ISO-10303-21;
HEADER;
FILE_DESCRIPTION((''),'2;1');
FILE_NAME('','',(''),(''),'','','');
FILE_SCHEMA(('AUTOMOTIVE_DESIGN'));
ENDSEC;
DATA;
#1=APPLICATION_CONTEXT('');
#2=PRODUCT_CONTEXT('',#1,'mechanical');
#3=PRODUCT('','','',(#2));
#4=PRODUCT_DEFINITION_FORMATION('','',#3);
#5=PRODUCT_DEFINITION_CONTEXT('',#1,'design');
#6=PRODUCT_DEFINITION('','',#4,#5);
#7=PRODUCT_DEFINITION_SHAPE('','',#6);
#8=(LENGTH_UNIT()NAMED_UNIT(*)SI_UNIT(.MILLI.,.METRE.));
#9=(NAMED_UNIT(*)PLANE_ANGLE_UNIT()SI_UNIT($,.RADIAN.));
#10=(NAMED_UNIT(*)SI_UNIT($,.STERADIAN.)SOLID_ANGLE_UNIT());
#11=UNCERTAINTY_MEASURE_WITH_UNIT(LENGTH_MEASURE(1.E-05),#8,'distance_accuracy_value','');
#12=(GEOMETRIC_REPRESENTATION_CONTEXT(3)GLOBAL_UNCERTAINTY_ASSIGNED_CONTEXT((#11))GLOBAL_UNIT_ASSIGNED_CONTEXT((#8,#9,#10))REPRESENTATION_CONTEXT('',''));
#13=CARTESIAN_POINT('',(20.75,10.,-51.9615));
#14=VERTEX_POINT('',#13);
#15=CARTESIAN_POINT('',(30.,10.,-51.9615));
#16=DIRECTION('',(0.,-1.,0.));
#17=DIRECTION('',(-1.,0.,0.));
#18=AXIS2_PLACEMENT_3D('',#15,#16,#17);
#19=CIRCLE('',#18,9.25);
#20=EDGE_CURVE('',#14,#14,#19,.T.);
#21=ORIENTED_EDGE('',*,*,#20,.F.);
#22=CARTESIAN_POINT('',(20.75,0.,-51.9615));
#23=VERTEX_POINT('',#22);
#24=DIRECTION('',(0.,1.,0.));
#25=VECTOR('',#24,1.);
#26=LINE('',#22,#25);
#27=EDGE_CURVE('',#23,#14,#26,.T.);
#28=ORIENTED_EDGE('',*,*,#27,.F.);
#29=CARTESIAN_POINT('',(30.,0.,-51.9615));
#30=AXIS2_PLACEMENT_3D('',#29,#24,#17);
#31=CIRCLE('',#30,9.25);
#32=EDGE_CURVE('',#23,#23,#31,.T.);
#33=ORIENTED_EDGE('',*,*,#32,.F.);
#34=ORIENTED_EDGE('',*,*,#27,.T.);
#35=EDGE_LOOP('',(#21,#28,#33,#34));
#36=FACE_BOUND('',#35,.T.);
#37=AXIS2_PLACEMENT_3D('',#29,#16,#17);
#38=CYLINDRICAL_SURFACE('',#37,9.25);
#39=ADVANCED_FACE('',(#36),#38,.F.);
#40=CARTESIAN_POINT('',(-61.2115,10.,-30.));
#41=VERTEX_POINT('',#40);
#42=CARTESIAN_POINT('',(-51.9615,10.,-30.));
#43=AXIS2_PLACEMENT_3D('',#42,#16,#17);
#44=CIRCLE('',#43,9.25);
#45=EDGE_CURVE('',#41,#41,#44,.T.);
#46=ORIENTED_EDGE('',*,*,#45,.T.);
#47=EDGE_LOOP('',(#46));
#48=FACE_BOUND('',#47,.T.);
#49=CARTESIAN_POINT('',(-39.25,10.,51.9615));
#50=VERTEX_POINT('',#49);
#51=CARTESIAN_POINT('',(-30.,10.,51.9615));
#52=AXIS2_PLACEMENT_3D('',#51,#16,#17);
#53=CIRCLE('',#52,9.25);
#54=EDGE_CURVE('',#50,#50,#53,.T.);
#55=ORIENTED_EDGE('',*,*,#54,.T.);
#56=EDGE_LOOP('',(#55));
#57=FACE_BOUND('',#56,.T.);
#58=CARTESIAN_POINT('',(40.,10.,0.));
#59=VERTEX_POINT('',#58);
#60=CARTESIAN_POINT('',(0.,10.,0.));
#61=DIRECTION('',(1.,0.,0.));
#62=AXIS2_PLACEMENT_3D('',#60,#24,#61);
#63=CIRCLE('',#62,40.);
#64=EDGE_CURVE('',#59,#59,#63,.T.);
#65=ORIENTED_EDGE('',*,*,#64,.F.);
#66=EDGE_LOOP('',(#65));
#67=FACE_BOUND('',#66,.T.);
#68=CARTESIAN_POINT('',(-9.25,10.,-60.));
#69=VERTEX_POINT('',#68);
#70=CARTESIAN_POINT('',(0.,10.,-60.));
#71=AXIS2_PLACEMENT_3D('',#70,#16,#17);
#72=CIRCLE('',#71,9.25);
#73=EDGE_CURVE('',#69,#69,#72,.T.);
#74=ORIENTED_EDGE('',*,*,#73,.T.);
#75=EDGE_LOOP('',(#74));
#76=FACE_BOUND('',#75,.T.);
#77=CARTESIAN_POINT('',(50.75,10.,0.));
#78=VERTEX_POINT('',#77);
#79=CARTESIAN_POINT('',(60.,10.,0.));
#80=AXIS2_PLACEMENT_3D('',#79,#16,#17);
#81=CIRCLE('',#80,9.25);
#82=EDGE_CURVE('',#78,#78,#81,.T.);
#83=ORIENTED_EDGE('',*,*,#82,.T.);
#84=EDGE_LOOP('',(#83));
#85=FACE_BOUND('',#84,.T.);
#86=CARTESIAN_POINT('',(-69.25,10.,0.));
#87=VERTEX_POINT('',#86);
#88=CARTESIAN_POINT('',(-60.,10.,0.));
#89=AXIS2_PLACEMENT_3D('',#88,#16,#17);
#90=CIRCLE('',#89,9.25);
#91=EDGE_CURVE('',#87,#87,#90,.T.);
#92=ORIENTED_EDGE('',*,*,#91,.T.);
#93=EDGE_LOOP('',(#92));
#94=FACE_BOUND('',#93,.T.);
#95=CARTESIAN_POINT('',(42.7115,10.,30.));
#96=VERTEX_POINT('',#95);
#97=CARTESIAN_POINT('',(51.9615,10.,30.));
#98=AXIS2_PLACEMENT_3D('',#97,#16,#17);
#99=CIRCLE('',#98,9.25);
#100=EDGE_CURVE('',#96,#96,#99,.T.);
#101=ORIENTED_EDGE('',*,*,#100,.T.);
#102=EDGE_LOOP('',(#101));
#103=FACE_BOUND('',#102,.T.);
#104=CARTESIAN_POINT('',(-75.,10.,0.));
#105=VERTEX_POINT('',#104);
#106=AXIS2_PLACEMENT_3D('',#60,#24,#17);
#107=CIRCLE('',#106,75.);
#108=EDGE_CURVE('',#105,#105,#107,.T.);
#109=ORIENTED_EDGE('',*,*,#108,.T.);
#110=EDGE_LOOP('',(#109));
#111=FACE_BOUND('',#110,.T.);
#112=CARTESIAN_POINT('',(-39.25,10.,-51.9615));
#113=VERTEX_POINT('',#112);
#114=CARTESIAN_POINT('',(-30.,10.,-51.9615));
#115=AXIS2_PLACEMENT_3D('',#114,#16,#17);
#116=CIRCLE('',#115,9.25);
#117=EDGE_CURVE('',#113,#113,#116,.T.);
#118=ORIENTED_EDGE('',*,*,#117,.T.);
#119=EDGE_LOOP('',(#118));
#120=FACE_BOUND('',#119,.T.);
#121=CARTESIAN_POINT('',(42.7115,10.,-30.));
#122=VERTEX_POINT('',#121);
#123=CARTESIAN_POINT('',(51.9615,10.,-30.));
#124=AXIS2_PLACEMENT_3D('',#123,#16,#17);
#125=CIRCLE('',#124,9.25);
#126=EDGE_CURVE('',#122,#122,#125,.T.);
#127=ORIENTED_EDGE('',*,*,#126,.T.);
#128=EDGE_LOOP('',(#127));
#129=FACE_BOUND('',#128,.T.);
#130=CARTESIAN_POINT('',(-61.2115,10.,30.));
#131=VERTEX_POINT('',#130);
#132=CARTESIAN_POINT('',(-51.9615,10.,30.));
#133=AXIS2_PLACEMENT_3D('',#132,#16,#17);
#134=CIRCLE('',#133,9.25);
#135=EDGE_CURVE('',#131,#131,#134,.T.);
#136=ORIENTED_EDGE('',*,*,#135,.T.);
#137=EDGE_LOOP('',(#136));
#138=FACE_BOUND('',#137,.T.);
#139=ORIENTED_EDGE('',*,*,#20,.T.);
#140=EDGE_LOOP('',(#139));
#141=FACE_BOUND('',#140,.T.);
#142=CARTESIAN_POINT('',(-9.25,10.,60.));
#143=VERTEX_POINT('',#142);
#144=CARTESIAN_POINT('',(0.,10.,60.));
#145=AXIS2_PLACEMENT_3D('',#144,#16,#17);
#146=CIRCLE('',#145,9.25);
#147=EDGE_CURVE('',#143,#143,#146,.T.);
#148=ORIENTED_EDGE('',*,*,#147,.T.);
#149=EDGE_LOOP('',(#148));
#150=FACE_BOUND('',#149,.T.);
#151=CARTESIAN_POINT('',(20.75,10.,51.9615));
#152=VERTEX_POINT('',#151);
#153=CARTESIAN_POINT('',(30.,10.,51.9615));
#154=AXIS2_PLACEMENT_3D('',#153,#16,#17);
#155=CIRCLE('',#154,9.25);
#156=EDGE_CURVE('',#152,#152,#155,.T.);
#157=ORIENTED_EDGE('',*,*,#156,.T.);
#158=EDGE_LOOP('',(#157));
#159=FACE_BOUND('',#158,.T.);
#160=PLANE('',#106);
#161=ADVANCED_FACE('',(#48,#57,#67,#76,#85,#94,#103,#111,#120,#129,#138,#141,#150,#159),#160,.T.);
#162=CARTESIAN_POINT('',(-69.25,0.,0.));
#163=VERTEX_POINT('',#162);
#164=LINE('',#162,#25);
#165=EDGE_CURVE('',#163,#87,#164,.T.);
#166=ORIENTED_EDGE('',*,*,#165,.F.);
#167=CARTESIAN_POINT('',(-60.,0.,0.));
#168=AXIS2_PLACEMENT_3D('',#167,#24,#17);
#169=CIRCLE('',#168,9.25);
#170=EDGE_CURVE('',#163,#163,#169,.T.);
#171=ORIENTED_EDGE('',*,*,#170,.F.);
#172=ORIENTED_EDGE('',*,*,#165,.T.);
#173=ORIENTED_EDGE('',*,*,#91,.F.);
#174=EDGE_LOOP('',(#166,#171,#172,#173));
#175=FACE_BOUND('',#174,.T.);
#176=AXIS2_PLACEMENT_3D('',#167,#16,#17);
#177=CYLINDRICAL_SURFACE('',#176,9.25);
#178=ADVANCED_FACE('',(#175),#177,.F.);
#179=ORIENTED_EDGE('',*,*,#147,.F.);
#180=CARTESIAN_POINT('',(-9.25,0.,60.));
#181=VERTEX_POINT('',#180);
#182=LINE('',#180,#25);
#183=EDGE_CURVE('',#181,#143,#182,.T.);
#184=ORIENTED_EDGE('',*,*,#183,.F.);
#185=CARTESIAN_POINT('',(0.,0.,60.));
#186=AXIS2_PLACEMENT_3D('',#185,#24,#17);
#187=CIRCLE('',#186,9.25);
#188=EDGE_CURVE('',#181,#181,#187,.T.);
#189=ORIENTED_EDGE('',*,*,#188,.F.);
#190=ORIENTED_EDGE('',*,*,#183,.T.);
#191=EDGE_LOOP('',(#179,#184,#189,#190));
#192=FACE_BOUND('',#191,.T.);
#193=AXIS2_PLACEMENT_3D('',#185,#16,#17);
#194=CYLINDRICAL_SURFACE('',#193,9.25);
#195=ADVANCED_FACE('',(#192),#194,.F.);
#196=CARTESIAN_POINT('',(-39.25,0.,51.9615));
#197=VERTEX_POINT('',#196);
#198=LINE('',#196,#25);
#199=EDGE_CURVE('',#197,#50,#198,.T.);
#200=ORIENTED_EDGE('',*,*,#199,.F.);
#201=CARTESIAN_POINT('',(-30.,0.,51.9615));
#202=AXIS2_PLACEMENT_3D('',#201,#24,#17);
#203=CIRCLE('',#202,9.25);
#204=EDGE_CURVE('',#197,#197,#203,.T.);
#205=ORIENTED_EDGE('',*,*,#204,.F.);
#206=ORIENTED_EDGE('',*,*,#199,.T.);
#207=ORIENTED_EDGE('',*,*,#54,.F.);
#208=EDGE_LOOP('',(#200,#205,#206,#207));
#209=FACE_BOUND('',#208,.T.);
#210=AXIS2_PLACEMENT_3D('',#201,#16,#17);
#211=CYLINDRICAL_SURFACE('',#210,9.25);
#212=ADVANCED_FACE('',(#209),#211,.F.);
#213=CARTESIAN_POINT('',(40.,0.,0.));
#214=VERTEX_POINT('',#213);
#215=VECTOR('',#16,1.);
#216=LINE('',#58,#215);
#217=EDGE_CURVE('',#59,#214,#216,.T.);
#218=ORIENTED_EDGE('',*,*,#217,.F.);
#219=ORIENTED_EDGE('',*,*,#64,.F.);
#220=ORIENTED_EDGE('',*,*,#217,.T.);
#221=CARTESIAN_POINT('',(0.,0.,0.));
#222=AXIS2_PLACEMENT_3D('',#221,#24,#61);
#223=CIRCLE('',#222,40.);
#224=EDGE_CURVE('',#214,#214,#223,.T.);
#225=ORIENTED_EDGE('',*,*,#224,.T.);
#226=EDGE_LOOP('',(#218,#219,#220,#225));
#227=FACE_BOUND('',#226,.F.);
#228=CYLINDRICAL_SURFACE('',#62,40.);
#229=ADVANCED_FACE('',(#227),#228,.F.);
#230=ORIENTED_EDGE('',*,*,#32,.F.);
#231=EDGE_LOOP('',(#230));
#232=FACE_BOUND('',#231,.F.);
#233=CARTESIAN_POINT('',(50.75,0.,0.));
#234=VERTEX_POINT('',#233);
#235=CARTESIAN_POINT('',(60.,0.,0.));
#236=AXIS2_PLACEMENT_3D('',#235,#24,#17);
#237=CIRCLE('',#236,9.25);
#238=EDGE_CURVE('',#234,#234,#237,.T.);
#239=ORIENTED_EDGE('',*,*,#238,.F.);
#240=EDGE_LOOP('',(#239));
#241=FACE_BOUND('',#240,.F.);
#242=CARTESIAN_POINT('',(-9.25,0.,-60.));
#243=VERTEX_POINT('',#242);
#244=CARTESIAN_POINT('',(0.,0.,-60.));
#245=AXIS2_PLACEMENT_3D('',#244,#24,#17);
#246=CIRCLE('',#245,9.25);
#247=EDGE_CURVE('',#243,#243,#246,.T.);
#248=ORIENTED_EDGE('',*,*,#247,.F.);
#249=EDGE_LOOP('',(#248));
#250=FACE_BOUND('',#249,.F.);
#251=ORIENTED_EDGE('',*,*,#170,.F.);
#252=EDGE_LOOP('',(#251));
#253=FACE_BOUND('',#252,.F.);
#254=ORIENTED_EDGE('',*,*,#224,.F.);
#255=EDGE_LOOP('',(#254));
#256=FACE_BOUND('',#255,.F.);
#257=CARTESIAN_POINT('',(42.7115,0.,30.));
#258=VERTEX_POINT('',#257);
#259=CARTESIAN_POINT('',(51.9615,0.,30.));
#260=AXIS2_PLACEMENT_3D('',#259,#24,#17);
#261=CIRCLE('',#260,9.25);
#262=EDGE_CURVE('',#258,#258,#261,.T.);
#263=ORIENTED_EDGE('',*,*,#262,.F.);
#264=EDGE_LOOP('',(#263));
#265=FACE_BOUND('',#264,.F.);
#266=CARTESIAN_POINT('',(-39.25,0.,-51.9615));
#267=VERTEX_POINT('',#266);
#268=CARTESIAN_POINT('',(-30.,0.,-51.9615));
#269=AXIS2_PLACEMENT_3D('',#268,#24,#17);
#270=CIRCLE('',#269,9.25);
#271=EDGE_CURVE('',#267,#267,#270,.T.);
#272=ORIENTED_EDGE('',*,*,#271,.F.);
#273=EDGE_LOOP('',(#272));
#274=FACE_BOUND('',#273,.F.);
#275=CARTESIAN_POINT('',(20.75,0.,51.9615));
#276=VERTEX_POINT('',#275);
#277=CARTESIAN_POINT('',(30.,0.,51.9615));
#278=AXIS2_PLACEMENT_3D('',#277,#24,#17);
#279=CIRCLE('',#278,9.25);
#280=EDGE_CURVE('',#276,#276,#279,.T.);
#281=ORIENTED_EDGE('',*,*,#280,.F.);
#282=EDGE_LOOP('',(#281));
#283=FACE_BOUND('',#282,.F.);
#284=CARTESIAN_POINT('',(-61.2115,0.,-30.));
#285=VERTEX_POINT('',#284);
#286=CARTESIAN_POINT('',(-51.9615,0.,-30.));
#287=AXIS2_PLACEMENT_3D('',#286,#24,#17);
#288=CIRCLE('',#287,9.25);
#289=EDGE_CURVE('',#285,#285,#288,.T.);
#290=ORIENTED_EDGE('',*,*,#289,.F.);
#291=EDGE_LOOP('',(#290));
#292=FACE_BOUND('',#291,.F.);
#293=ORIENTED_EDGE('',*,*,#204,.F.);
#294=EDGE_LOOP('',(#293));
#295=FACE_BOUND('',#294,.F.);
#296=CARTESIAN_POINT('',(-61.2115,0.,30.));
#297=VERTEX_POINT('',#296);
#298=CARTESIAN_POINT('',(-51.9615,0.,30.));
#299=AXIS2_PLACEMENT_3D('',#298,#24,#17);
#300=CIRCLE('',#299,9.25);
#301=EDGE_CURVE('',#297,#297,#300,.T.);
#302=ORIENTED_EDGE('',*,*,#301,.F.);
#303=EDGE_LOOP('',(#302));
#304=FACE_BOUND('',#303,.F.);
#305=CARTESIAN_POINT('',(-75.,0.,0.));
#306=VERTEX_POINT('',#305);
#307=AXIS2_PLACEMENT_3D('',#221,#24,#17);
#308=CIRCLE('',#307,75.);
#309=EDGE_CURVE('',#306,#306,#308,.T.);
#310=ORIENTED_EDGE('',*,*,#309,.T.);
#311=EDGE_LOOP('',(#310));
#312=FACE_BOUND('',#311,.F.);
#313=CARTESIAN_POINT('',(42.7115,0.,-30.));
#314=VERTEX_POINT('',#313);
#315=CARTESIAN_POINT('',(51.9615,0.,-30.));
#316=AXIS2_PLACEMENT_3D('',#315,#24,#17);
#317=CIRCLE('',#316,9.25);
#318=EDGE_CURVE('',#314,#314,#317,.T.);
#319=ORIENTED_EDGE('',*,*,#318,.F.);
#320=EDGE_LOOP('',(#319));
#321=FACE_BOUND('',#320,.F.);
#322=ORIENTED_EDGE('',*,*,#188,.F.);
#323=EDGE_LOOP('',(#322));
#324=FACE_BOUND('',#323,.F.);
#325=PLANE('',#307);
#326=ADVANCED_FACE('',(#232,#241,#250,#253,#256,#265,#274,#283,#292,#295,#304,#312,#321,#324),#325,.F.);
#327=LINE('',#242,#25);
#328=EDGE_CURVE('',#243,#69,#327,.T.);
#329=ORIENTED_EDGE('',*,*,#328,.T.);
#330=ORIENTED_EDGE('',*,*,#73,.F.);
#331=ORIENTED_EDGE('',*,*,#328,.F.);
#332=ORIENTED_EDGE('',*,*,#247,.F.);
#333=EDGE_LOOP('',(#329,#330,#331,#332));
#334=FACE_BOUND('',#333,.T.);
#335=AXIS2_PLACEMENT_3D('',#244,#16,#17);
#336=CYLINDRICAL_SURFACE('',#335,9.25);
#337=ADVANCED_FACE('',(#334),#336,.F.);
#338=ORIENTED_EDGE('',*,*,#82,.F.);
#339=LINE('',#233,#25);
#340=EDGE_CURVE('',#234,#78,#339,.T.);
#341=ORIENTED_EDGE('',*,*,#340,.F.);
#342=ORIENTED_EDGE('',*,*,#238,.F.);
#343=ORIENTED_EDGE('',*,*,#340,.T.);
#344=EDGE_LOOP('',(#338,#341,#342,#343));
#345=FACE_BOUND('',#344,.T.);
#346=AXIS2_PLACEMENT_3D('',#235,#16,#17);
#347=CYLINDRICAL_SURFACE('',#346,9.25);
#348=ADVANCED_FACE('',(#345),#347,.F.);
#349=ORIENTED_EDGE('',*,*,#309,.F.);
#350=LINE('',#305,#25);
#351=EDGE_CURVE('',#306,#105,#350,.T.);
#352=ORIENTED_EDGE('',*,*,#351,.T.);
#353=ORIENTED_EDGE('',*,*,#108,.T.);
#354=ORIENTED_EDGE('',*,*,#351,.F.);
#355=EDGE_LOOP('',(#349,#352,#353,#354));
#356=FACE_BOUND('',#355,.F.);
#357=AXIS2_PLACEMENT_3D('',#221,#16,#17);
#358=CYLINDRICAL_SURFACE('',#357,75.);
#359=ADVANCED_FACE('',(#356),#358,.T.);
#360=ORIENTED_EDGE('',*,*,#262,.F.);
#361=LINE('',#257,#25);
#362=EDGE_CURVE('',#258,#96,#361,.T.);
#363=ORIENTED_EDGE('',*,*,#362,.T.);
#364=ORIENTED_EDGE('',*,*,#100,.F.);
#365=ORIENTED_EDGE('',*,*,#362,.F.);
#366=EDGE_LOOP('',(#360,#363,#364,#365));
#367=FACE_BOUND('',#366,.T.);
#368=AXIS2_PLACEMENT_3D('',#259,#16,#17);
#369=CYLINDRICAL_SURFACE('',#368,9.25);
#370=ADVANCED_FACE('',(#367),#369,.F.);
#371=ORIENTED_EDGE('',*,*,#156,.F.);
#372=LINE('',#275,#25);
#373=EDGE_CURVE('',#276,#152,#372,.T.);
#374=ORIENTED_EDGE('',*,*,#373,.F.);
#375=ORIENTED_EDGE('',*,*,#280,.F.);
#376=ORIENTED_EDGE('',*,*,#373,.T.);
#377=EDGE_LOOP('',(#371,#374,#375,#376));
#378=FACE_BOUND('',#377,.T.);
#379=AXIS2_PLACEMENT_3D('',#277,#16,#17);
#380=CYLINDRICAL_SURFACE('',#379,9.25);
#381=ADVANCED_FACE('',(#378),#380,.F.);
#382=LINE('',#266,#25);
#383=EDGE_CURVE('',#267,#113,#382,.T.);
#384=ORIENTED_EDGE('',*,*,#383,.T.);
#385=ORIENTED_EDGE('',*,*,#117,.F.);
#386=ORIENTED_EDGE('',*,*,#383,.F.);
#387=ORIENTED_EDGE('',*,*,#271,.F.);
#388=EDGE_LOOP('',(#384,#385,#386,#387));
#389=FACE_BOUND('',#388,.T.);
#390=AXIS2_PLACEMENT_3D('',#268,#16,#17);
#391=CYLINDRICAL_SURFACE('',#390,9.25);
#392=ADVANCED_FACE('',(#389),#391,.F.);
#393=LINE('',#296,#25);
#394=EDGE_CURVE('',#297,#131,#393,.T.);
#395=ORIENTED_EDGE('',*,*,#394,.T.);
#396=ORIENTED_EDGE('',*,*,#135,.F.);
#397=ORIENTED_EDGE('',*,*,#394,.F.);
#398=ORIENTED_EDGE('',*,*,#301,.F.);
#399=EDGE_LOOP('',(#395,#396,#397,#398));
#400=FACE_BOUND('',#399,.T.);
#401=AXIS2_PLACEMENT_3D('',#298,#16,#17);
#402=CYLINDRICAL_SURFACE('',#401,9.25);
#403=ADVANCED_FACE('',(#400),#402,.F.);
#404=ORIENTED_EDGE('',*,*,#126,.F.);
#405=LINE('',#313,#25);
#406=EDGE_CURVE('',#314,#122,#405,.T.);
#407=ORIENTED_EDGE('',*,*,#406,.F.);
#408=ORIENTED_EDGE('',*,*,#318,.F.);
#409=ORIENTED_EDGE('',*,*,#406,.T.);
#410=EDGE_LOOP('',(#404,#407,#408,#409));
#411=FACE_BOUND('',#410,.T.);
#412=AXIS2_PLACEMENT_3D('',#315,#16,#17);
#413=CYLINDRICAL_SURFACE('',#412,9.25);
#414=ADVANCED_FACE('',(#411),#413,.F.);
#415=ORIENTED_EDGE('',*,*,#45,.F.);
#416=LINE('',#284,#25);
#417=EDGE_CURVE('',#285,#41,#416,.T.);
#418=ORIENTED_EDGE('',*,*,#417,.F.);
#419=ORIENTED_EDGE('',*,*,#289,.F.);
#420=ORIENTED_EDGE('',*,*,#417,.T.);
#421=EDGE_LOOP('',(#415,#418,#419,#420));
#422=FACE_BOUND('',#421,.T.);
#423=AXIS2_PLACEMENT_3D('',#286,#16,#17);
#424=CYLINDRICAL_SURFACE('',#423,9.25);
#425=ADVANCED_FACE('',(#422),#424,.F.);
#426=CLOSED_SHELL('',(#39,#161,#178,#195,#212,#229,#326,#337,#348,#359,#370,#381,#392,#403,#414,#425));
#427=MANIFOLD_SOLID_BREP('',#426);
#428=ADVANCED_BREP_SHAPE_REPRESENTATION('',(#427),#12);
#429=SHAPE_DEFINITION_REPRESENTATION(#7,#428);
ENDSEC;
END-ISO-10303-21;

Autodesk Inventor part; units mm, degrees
ref_plane "XZ Plane" through (0, 0, 0) normal (0, 1, 0) x (-1, 0, 0)
sketch "Sketch1" plane through (0, 0, 0) normal (0, 1, 0) x (-1, 0, 0)
  circle A0 centre (0, 0) radius 75
  circle A1 centre (0, 0) radius 60
  circle A2 centre (0, 60) radius 9.25
  circle A3 centre (-30, 51.9615) radius 9.25
  circle A4 centre (-51.9615, 30) radius 9.25
  circle A5 centre (-60, 0) radius 9.25
  circle A6 centre (-51.9615, -30) radius 9.25
  circle A7 centre (-30, -51.9615) radius 9.25
  circle A8 centre (0, -60) radius 9.25
  circle A9 centre (30, -51.9615) radius 9.25
  circle A10 centre (51.9615, -30) radius 9.25
  circle A11 centre (60, 0) radius 9.25
  circle A12 centre (51.9615, 30) radius 9.25
  circle A13 centre (30, 51.9615) radius 9.25
  dimension "d1" = 120
  dimension "d0" = 150
  dimension "d2" = 18.5
  dimension "d5" = 360
extrude "Extrusion1" add sketch "Sketch1" along normal blind 10 contours A0 | A11 A1 A10 A9 A8 A7 A6 A5 A4 A3 A2 A13 A12
sketch "Sketch2" plane through (0, 0, 0) normal (0, -1, 0) x (1, 0, 0)
  circle A0 centre (0, 0) radius 45
  dimension "d9" = 90
extrude "Extrusion2" add sketch "Sketch2" along normal blind 130
sketch "Sketch3" plane through (0, -130, 0) normal (0, -1, 0) x (1, 0, 0)
  circle A0 centre (0, 0) radius 5
  line L0 (-11.0031, 74.0969) -> (11.0031, 74.0969)
  line L1 (11.0031, 74.0969) -> (11.0031, 56.269)
  line L2 (11.0031, 56.269) -> (-11.0031, 56.269)
  line L3 (-11.0031, 56.269) -> (-11.0031, 74.0969)
  line L4 (11.0031, 74.0969) -> (0, 65.183) construction
  line L5 (-27.5195, 69.6713) -> (-18.6056, 54.232)
  line L6 (-18.6056, 54.232) -> (-37.6635, 43.2289)
  line L7 (-37.6635, 43.2289) -> (-46.5774, 58.6682)
  line L8 (-46.5774, 58.6682) -> (-27.5195, 69.6713)
  line L9 (-58.6682, 46.5774) -> (-43.2289, 37.6635)
  line L10 (-43.2289, 37.6635) -> (-54.232, 18.6056)
  line L11 (-54.232, 18.6056) -> (-69.6713, 27.5195)
  line L12 (-69.6713, 27.5195) -> (-58.6682, 46.5774)
  line L13 (-74.0969, 11.0031) -> (-56.269, 11.0031)
  line L14 (-56.269, 11.0031) -> (-56.269, -11.0031)
  line L15 (-56.269, -11.0031) -> (-74.0969, -11.0031)
  line L16 (-74.0969, -11.0031) -> (-74.0969, 11.0031)
  line L17 (-69.6713, -27.5195) -> (-54.232, -18.6056)
  line L18 (-54.232, -18.6056) -> (-43.2289, -37.6635)
  line L19 (-43.2289, -37.6635) -> (-58.6682, -46.5774)
  line L20 (-58.6682, -46.5774) -> (-69.6713, -27.5195)
  line L21 (-46.5774, -58.6682) -> (-37.6635, -43.2289)
  line L22 (-37.6635, -43.2289) -> (-18.6056, -54.232)
  line L23 (-18.6056, -54.232) -> (-27.5195, -69.6713)
  line L24 (-27.5195, -69.6713) -> (-46.5774, -58.6682)
  line L25 (-11.0031, -74.0969) -> (-11.0031, -56.269)
  line L26 (-11.0031, -56.269) -> (11.0031, -56.269)
  line L27 (11.0031, -56.269) -> (11.0031, -74.0969)
  line L28 (11.0031, -74.0969) -> (-11.0031, -74.0969)
  line L29 (27.5195, -69.6713) -> (18.6056, -54.232)
  line L30 (18.6056, -54.232) -> (37.6635, -43.2289)
  line L31 (37.6635, -43.2289) -> (46.5774, -58.6682)
  line L32 (46.5774, -58.6682) -> (27.5195, -69.6713)
  line L33 (58.6682, -46.5774) -> (43.2289, -37.6635)
  line L34 (43.2289, -37.6635) -> (54.232, -18.6056)
  line L35 (54.232, -18.6056) -> (69.6713, -27.5195)
  line L36 (69.6713, -27.5195) -> (58.6682, -46.5774)
  line L37 (74.0969, -11.0031) -> (56.269, -11.0031)
  line L38 (56.269, -11.0031) -> (56.269, 11.0031)
  line L39 (56.269, 11.0031) -> (74.0969, 11.0031)
  line L40 (74.0969, 11.0031) -> (74.0969, -11.0031)
  line L41 (69.6713, 27.5195) -> (54.232, 18.6056)
  line L42 (54.232, 18.6056) -> (43.2289, 37.6635)
  line L43 (43.2289, 37.6635) -> (58.6682, 46.5774)
  line L44 (58.6682, 46.5774) -> (69.6713, 27.5195)
  line L45 (46.5774, 58.6682) -> (37.6635, 43.2289)
  line L46 (37.6635, 43.2289) -> (18.6056, 54.232)
  line L47 (18.6056, 54.232) -> (27.5195, 69.6713)
  line L48 (27.5195, 69.6713) -> (46.5774, 58.6682)
  arc A1 (-11.0031, 60.9667) -> (-20.9544, 58.3003) centre (0, 0) ccw
  arc A2 (20.9544, 58.3003) -> (11.0031, 60.9667) centre (0, 0) ccw
  arc A3 (47.2972, 40.0123) -> (40.0123, 47.2972) centre (0, 0) ccw
  arc A4 (-40.0123, 47.2972) -> (-47.2972, 40.0123) centre (0, 0) ccw
  arc A5 (-58.3003, 20.9544) -> (-60.9667, 11.0031) centre (0, 0) ccw
  arc A6 (-60.9667, -11.0031) -> (-58.3003, -20.9544) centre (0, 0) ccw
  arc A7 (-47.2972, -40.0123) -> (-40.0123, -47.2972) centre (0, 0) ccw
  arc A8 (-20.9544, -58.3003) -> (-11.0031, -60.9667) centre (0, 0) ccw
  arc A9 (11.0031, -60.9667) -> (20.9544, -58.3003) centre (0, 0) ccw
  arc A10 (40.0123, -47.2972) -> (47.2972, -40.0123) centre (0, 0) ccw
  arc A11 (58.3003, -20.9544) -> (60.9667, -11.0031) centre (0, 0) ccw
  arc A12 (60.9667, 11.0031) -> (58.3003, 20.9544) centre (0, 0) ccw
  dimension "d68" = 360
extrude "Extrusion9" add sketch "Sketch3" along normal blind 10
sketch "Sketch7" plane through (0, -130, 0) normal (0, 1, 0) x (1, 0, 0)
  circle A0 centre (0, 0) radius 5 projected
  circle A1 centre (0, 0) radius 60
  circle A2 centre (-60, 0) radius 9.25
  circle A3 centre (-51.9615, -30) radius 9.25
  circle A4 centre (-30, -51.9615) radius 9.25
  circle A5 centre (0, -60) radius 9.25
  circle A6 centre (30, -51.9615) radius 9.25
  circle A7 centre (51.9615, -30) radius 9.25
  circle A8 centre (60, 0) radius 9.25
  circle A9 centre (51.9615, 30) radius 9.25
  circle A10 centre (30, 51.9615) radius 9.25
  circle A11 centre (0, 60) radius 9.25
  circle A12 centre (-30, 51.9615) radius 9.25
  circle A13 centre (-51.9615, 30) radius 9.25
  dimension "d71" = 120
  dimension "d72" = 18.5
  dimension "d75" = 360
extrude "Extrusion10" cut sketch "Sketch7" against normal blind 10 contours A1 A8 | A1 A8 | A9 A1 | A1 A9 | A7 A1 | A1 A7 | A10 A1 | A1 A10 | A6 A1 | A1 A6 | A11 A1 | A1 A11 | A5 A1 | A1 A5 | A12 A1 | A1 A12 | A4 A1 | A1 A4 | A13 A1 | A1 A13 | A3 A1 | A1 A3 | A2 A1 | A1 A2
sketch "Sketch8" plane through (0, 10, 0) normal (0, 1, 0) x (1, 0, 0)
  circle A0 centre (0, 0) radius 5 projected
  circle A1 centre (0, 0) radius 40
  dimension "d92" = 80
extrude "Extrusion11" cut sketch "Sketch8" against normal blind 140 contours A0 | A1
sketch "Sketch9" plane through (0, -140, 0) normal (0, -1, 0) x (1, 0, 0)
  circle A0 centre (0, 0) radius 100
  line L0 (0, 0) -> (18.5658, -69.2885)
  line L1 (0, 0) -> (0, -103.5276)
  arc A1 (24.6448, -72.6673) -> (14.9907, -75.2542) centre (0, 0) ccw
  circle A2 centre (25.8819, -96.5926) radius 5
  arc A3 (24.729, -72.9816) -> (15.0747, -75.5678) centre (19.8599, -74.1181) ccw
  line L2 (30.6777, -95.1782) -> (24.6448, -72.6673)
  line L3 (21.0523, -97.8867) -> (14.9907, -75.2542)
  circle A4 centre (0, -103.5276) radius 11.6229
  line L4 (21.0523, -97.8867) -> (25.8819, -96.5926)
  arc A5 (-25.8819, -96.5926) -> (26.7197, -101.5219) centre (0, -103.5276) ccw
  circle A6 centre (0, -103.5276) radius 40
  arc A7 (57.9067, -50.8394) -> (50.8389, -57.9063) centre (54.2582, -54.2582) ccw
  line L5 (67.1751, -74.2462) -> (50.6094, -57.6767)
  line L6 (74.1567, -67.0879) -> (57.6767, -50.6094)
  circle A8 centre (70.7107, -70.7107) radius 5
  circle A9 centre (51.7638, -89.6575) radius 11.6229
  arc A10 (75.5684, -15.0748) -> (72.9809, -24.7289) centre (74.1181, -19.8599) ccw
  line L7 (95.2985, -30.7115) -> (72.6673, -24.6448)
  line L8 (97.7655, -21.0214) -> (75.2542, -14.9907)
  circle A11 centre (96.5926, -25.8819) radius 5
  circle A12 centre (89.6575, -51.7638) radius 11.6229
  arc A13 (72.9816, 24.729) -> (75.5678, 15.0747) centre (74.1181, 19.8599) ccw
  line L9 (97.8867, 21.0523) -> (75.2542, 14.9907)
  line L10 (95.1782, 30.6777) -> (72.6673, 24.6448)
  circle A14 centre (96.5926, 25.8819) radius 5
  circle A15 centre (103.5276, 0) radius 11.6229
  arc A16 (50.8394, 57.9067) -> (57.9063, 50.8389) centre (54.2582, 54.2582) ccw
  line L11 (74.2462, 67.1751) -> (57.6767, 50.6094)
  line L12 (67.0879, 74.1567) -> (50.6094, 57.6767)
  circle A17 centre (70.7107, 70.7107) radius 5
  circle A18 centre (89.6575, 51.7638) radius 11.6229
  arc A19 (15.0748, 75.5684) -> (24.7289, 72.9809) centre (19.8599, 74.1181) ccw
  line L13 (30.7115, 95.2985) -> (24.6448, 72.6673)
  line L14 (21.0214, 97.7655) -> (14.9907, 75.2542)
  circle A20 centre (25.8819, 96.5926) radius 5
  circle A21 centre (51.7638, 89.6575) radius 11.6229
  arc A22 (-24.729, 72.9816) -> (-15.0747, 75.5678) centre (-19.8599, 74.1181) ccw
  line L15 (-21.0523, 97.8867) -> (-14.9907, 75.2542)
  line L16 (-30.6777, 95.1782) -> (-24.6448, 72.6673)
  circle A23 centre (-25.8819, 96.5926) radius 5
  circle A24 centre (0, 103.5276) radius 11.6229
  arc A25 (-57.9067, 50.8394) -> (-50.8389, 57.9063) centre (-54.2582, 54.2582) ccw
  line L17 (-67.1751, 74.2462) -> (-50.6094, 57.6767)
  line L18 (-74.1567, 67.0879) -> (-57.6767, 50.6094)
  circle A26 centre (-70.7107, 70.7107) radius 5
  circle A27 centre (-51.7638, 89.6575) radius 11.6229
  arc A28 (-75.5684, 15.0748) -> (-72.9809, 24.7289) centre (-74.1181, 19.8599) ccw
  line L19 (-95.2985, 30.7115) -> (-72.6673, 24.6448)
  line L20 (-97.7655, 21.0214) -> (-75.2542, 14.9907)
  circle A29 centre (-96.5926, 25.8819) radius 5
  circle A30 centre (-89.6575, 51.7638) radius 11.6229
  arc A31 (-72.9816, -24.729) -> (-75.5678, -15.0747) centre (-74.1181, -19.8599) ccw
  line L21 (-97.8867, -21.0523) -> (-75.2542, -14.9907)
  line L22 (-95.1782, -30.6777) -> (-72.6673, -24.6448)
  circle A32 centre (-96.5926, -25.8819) radius 5
  circle A33 centre (-103.5276, 0) radius 11.6229
  arc A34 (-50.8394, -57.9067) -> (-57.9063, -50.8389) centre (-54.2582, -54.2582) ccw
  line L23 (-74.2462, -67.1751) -> (-57.6767, -50.6094)
  line L24 (-67.0879, -74.1567) -> (-50.6094, -57.6767)
  circle A35 centre (-70.7107, -70.7107) radius 5
  circle A36 centre (-89.6575, -51.7638) radius 11.6229
  arc A37 (-15.0748, -75.5684) -> (-24.7289, -72.9809) centre (-19.8599, -74.1181) ccw
  line L25 (-30.7115, -95.2985) -> (-24.6448, -72.6673)
  line L26 (-21.0214, -97.7655) -> (-14.9907, -75.2542)
  circle A38 centre (-25.8819, -96.5926) radius 5
  circle A39 centre (-51.7638, -89.6575) radius 11.6229
  circle A40 centre (0, 0) radius 3
  circle A41 centre (0, -103.5276) radius 2.5
  point P0 (50.7227, -50.7227)
  point P1 (73.9009, -74.5607)
  point P2 (69.2885, -18.5658)
  point P3 (101.2804, -27.621)
  point P4 (69.2885, 18.5658)
  point P5 (101.5219, 26.7197)
  point P6 (50.7227, 50.7227)
  point P7 (74.5607, 73.9009)
  point P8 (18.5658, 69.2885)
  point P9 (27.621, 101.2804)
  point P10 (-18.5658, 69.2885)
  point P11 (-26.7197, 101.5219)
  point P12 (-50.7227, 50.7227)
  point P13 (-73.9009, 74.5607)
  point P14 (-69.2885, 18.5658)
  point P15 (-101.2804, 27.621)
  point P16 (-69.2885, -18.5658)
  point P17 (-101.5219, -26.7197)
  point P18 (-50.7227, -50.7227)
  point P19 (-74.5607, -73.9009)
  point P20 (-18.5658, -69.2885)
  point P21 (-27.621, -101.2804)
  point P22 (40.2917, -91.5236)
  point P23 (59.1159, -80.6555)
  point P24 (67.0867, -74.1578)
  point P25 (80.6555, -59.1159)
  point P26 (91.5236, -40.2917)
  point P27 (95.1777, -30.6791)
  point P28 (99.4077, -10.8682)
  point P29 (99.4077, 10.8682)
  point P30 (97.7659, 21.0199)
  point P31 (91.5236, 40.2917)
  point P32 (80.6555, 59.1159)
  point P33 (74.1578, 67.0867)
  point P34 (59.1159, 80.6555)
  point P35 (40.2917, 91.5236)
  point P36 (30.6791, 95.1777)
  point P37 (10.8682, 99.4077)
  point P38 (-10.8682, 99.4077)
  point P39 (-21.0199, 97.7659)
  point P40 (-40.2917, 91.5236)
  point P41 (-59.1159, 80.6555)
  point P42 (-67.0867, 74.1578)
  point P43 (-80.6555, 59.1159)
  point P44 (-91.5236, 40.2917)
  point P45 (-95.1777, 30.6791)
  point P46 (-99.4077, 10.8682)
  point P47 (-99.4077, -10.8682)
  point P48 (-97.7659, -21.0199)
  point P49 (-91.5236, -40.2917)
  point P50 (-80.6555, -59.1159)
  point P51 (-74.1578, -67.0867)
  point P52 (-59.1159, -80.6555)
  point P53 (-40.2917, -91.5236)
  point P54 (-30.6791, -95.1777)
  point P55 (-10.8682, -99.4077)
  point P56 (10.8682, -99.4077)
  point P57 (21.0199, -97.7659)
  point P58 (20.4557, -69.1537)
  point P59 (24.2422, -71.7107)
  point P60 (40.2917, -91.5236)
  point P61 (59.1159, -80.6555)
  point P62 (67.0867, -74.1578)
  point P63 (80.6555, -59.1159)
  point P64 (91.5236, -40.2917)
  point P65 (95.1777, -30.6791)
  point P66 (99.4077, -10.8682)
  point P67 (99.4077, 10.8682)
  point P68 (97.7659, 21.0199)
  point P69 (91.5236, 40.2917)
  point P70 (80.6555, 59.1159)
  point P71 (74.1578, 67.0867)
  point P72 (59.1159, 80.6555)
  point P73 (40.2917, 91.5236)
  point P74 (30.6791, 95.1777)
  point P75 (10.8682, 99.4077)
  point P76 (-10.8682, 99.4077)
  point P77 (-21.0199, 97.7659)
  point P78 (-40.2917, 91.5236)
  point P79 (-59.1159, 80.6555)
  point P80 (-67.0867, 74.1578)
  point P81 (-80.6555, 59.1159)
  point P82 (-91.5236, 40.2917)
  point P83 (-95.1782, 30.6777)
  point P84 (-99.4077, 10.8682)
  point P85 (-99.4077, -10.8682)
  point P86 (-97.7659, -21.0199)
  point P87 (-91.5236, -40.2917)
  point P88 (-80.6555, -59.1159)
  point P89 (-74.1578, -67.0867)
  point P90 (-59.1159, -80.6555)
  point P91 (-40.2917, -91.5236)
  point P92 (-30.6791, -95.1777)
  point P93 (-24.2422, -71.7107)
  point P94 (-20.4557, -69.1537)
  point P95 (-10.8682, -99.4077)
  point P96 (10.8682, -99.4077)
  point P97 (21.0199, -97.7659)
  dimension "d97" = 200
  dimension "d98" = 15
  dimension "d99" = 10
  dimension "d100" = 10
  dimension "d101" = 80
  dimension "d102" = 360
  dimension "d103" = 6
  dimension "d104" = 5
extrude "Extrusion12" add sketch "Sketch9" along normal blind 10 contours L26 A37 A1 L1 A4 A0 | A0 A6 A1 A37 L25 | A0 A39 L24 A34 A1 A6 | L1 A1 A3 L3 A0 A4 | A37 A6 L1 A1 | A6 A37 A1 | A1 A34 A31 A28 A25 A22 A19 A16 A13 A10 A7 A6 A3 L0 A40 L1 A37 | L1 A6 L0 A3 A1 | A6 A37 | A6 A1 A7 L5 A0 A9 | A0 L2 A3 A1 A6 | L1 A40 L0 A6 | L3 A3 | A34 L23 A0 A36 L22 A31 A1 | A1 A3 A6 | A40 L0 L1 | L1 L0 A40 | A6 A3 L0 | A6 A3 | A31 L21 A0 A33 L20 A28 A1 | A1 A10 L7 A0 A12 L6 A7 | A28 L20 A29 L19 A1 | A1 A28 | A28 L19 A0 A30 L18 A25 A1 | A1 A13 L9 A0 A15 L8 A10 | A25 L17 A0 A27 L16 A22 A1 | A1 A16 L11 A0 A18 L10 A13 | A22 L15 A0 A24 L14 A19 A1 | A1 A19 L13 A0 A21 L12 A16 picked at (-24.7526, -72.3861)
sketch "Sketch10" plane through (0, -140, 0) normal (0, 1, 0) x (1, 0, 0)
  arc A0 (20.4557, 69.1537) -> (24.2422, 71.7107) centre (0, 103.5276) ccw projected
  arc A1 (14.9907, 75.2542) -> (20.4557, 69.1537) centre (19.8599, 74.1181) ccw projected
  line L0 (21.0199, 97.7659) -> (14.9907, 75.2542) projected
  arc A2 (21.0199, 97.7659) -> (10.8682, 99.4077) centre (0, 0) ccw projected
  arc A3 (-10.8682, 99.4077) -> (10.8682, 99.4077) centre (0, 103.5276) ccw projected
  arc A4 (-10.8682, 99.4077) -> (-21.0214, 97.7655) centre (0, 0) ccw projected
  line L1 (-14.9907, 75.2542) -> (-21.0214, 97.7655) projected
  arc A5 (-20.4557, 69.1537) -> (-14.9907, 75.2542) centre (-19.8599, 74.1181) ccw projected
  arc A6 (-24.2422, 71.7107) -> (-20.4557, 69.1537) centre (0, 103.5276) ccw projected
  arc A7 (-24.6448, 72.6673) -> (-24.2422, 71.7107) centre (-19.8599, 74.1181) ccw projected
  line L2 (-30.6791, 95.1777) -> (-24.6448, 72.6673) projected
  arc A8 (-30.6791, 95.1777) -> (-40.2917, 91.5236) centre (0, 0) ccw projected
  arc A9 (-59.1159, 80.6555) -> (-40.2917, 91.5236) centre (-51.7638, 89.6575) ccw projected
  arc A10 (-59.1159, 80.6555) -> (-67.0879, 74.1567) centre (0, 0) ccw projected
  line L3 (-50.6094, 57.6767) -> (-67.0879, 74.1567) projected
  arc A11 (-57.6767, 50.6094) -> (-50.6094, 57.6767) centre (-54.2582, 54.2582) ccw projected
  line L4 (-74.1578, 67.0867) -> (-57.6767, 50.6094) projected
  arc A12 (-74.1578, 67.0867) -> (-80.6555, 59.1159) centre (0, 0) ccw projected
  arc A13 (-91.5236, 40.2917) -> (-80.6555, 59.1159) centre (-89.6575, 51.7638) ccw projected
  arc A14 (-91.5236, 40.2917) -> (-95.1782, 30.6777) centre (0, 0) ccw projected
  line L5 (-72.6673, 24.6448) -> (-95.1782, 30.6777) projected
  arc A15 (-75.2542, 14.9907) -> (-72.6673, 24.6448) centre (-74.1181, 19.8599) ccw projected
  line L6 (-97.7659, 21.0199) -> (-75.2542, 14.9907) projected
  arc A16 (-97.7659, 21.0199) -> (-99.4077, 10.8682) centre (0, 0) ccw projected
  arc A17 (-99.4077, -10.8682) -> (-99.4077, 10.8682) centre (-103.5276, 0) ccw projected
  arc A18 (-99.4077, -10.8682) -> (-97.7655, -21.0214) centre (0, 0) ccw projected
  arc A19 (-95.1782, -30.6777) -> (-97.7655, -21.0214) centre (-96.5926, -25.8819) ccw projected
  arc A20 (-95.1782, -30.6777) -> (-91.5236, -40.2917) centre (0, 0) ccw projected
  arc A21 (-80.6555, -59.1159) -> (-91.5236, -40.2917) centre (-89.6575, -51.7638) ccw projected
  arc A22 (-80.6555, -59.1159) -> (-74.1567, -67.0879) centre (0, 0) ccw projected
  line L7 (-57.6767, -50.6094) -> (-74.1567, -67.0879) projected
  arc A23 (-50.6094, -57.6767) -> (-57.6767, -50.6094) centre (-54.2582, -54.2582) ccw projected
  line L8 (-67.0867, -74.1578) -> (-50.6094, -57.6767) projected
  arc A24 (-67.0867, -74.1578) -> (-59.1159, -80.6555) centre (0, 0) ccw projected
  arc A25 (-40.2917, -91.5236) -> (-59.1159, -80.6555) centre (-51.7638, -89.6575) ccw projected
  arc A26 (-40.2917, -91.5236) -> (-30.6777, -95.1782) centre (0, 0) ccw projected
  line L9 (-24.6448, -72.6673) -> (-30.6777, -95.1782) projected
  arc A27 (-14.9907, -75.2542) -> (-24.6448, -72.6673) centre (-19.8599, -74.1181) ccw projected
  line L10 (-21.0199, -97.7659) -> (-14.9907, -75.2542) projected
  arc A28 (-21.0199, -97.7659) -> (-10.8682, -99.4077) centre (0, 0) ccw projected
  arc A29 (10.8682, -99.4077) -> (-10.8682, -99.4077) centre (0, -103.5276) ccw projected
  arc A30 (10.8682, -99.4077) -> (21.0214, -97.7655) centre (0, 0) ccw projected
  line L11 (14.9907, -75.2542) -> (21.0214, -97.7655) projected
  arc A31 (24.6448, -72.6673) -> (14.9907, -75.2542) centre (19.8599, -74.1181) ccw projected
  line L12 (30.6791, -95.1777) -> (24.6448, -72.6673) projected
  arc A32 (30.6791, -95.1777) -> (40.2917, -91.5236) centre (0, 0) ccw projected
  arc A33 (59.1159, -80.6555) -> (40.2917, -91.5236) centre (51.7638, -89.6575) ccw projected
  arc A34 (59.1159, -80.6555) -> (67.0879, -74.1567) centre (0, 0) ccw projected
  line L13 (50.6094, -57.6767) -> (67.0879, -74.1567) projected
  arc A35 (57.6767, -50.6094) -> (50.6094, -57.6767) centre (54.2582, -54.2582) ccw projected
  line L14 (74.1578, -67.0867) -> (57.6767, -50.6094) projected
  arc A36 (74.1578, -67.0867) -> (80.6555, -59.1159) centre (0, 0) ccw projected
  arc A37 (91.5236, -40.2917) -> (80.6555, -59.1159) centre (89.6575, -51.7638) ccw projected
  arc A38 (91.5236, -40.2917) -> (95.1782, -30.6777) centre (0, 0) ccw projected
  line L15 (72.6673, -24.6448) -> (95.1782, -30.6777) projected
  arc A39 (75.2542, -14.9907) -> (72.6673, -24.6448) centre (74.1181, -19.8599) ccw projected
  line L16 (97.7659, -21.0199) -> (75.2542, -14.9907) projected
  arc A40 (97.7659, -21.0199) -> (99.4077, -10.8682) centre (0, 0) ccw projected
  arc A41 (99.4077, 10.8682) -> (99.4077, -10.8682) centre (103.5276, 0) ccw projected
  arc A42 (99.4077, 10.8682) -> (97.7655, 21.0214) centre (0, 0) ccw projected
  line L17 (75.2542, 14.9907) -> (97.7655, 21.0214) projected
  arc A43 (72.6673, 24.6448) -> (75.2542, 14.9907) centre (74.1181, 19.8599) ccw projected
  line L18 (95.1777, 30.6791) -> (72.6673, 24.6448) projected
  arc A44 (95.1777, 30.6791) -> (91.5236, 40.2917) centre (0, 0) ccw projected
  arc A45 (80.6555, 59.1159) -> (91.5236, 40.2917) centre (89.6575, 51.7638) ccw projected
  arc A46 (80.6555, 59.1159) -> (74.1567, 67.0879) centre (0, 0) ccw projected
  line L19 (57.6767, 50.6094) -> (74.1567, 67.0879) projected
  arc A47 (50.6094, 57.6767) -> (57.6767, 50.6094) centre (54.2582, 54.2582) ccw projected
  line L20 (67.0867, 74.1578) -> (50.6094, 57.6767) projected
  arc A48 (67.0867, 74.1578) -> (59.1159, 80.6555) centre (0, 0) ccw projected
  arc A49 (40.2917, 91.5236) -> (59.1159, 80.6555) centre (51.7638, 89.6575) ccw projected
  arc A50 (40.2917, 91.5236) -> (30.6777, 95.1782) centre (0, 0) ccw projected
  line L21 (24.6448, 72.6673) -> (30.6777, 95.1782) projected
  arc A51 (24.2422, 71.7107) -> (24.6448, 72.6673) centre (19.8599, 74.1181) ccw projected
  line L22 (60.9667, 11.0031) -> (74.0969, 11.0031) projected
  line L23 (74.0969, 11.0031) -> (74.0969, -11.0031) projected
  line L24 (74.0969, -11.0031) -> (60.9667, -11.0031) projected
  arc A52 (58.3003, -20.9544) -> (60.9667, -11.0031) centre (0, 0) ccw projected
  line L25 (58.3003, -20.9544) -> (69.6713, -27.5195) projected
  line L26 (69.6713, -27.5195) -> (58.6682, -46.5774) projected
  line L27 (58.6682, -46.5774) -> (47.2972, -40.0123) projected
  arc A53 (40.0123, -47.2972) -> (47.2972, -40.0123) centre (0, 0) ccw projected
  line L28 (40.0123, -47.2972) -> (46.5774, -58.6682) projected
  line L29 (46.5774, -58.6682) -> (27.5195, -69.6713) projected
  line L30 (27.5195, -69.6713) -> (20.9544, -58.3003) projected
  arc A54 (11.0031, -60.9667) -> (20.9544, -58.3003) centre (0, 0) ccw projected
  line L31 (11.0031, -60.9667) -> (11.0031, -74.0969) projected
  line L32 (11.0031, -74.0969) -> (-11.0031, -74.0969) projected
  line L33 (-11.0031, -74.0969) -> (-11.0031, -60.9667) projected
  arc A55 (-20.9544, -58.3003) -> (-11.0031, -60.9667) centre (0, 0) ccw projected
  line L34 (-20.9544, -58.3003) -> (-27.5195, -69.6713) projected
  line L35 (-27.5195, -69.6713) -> (-46.5774, -58.6682) projected
  line L36 (-46.5774, -58.6682) -> (-40.0123, -47.2972) projected
  arc A56 (-47.2972, -40.0123) -> (-40.0123, -47.2972) centre (0, 0) ccw projected
  line L37 (-47.2972, -40.0123) -> (-58.6682, -46.5774) projected
  line L38 (-58.6682, -46.5774) -> (-69.6713, -27.5195) projected
  line L39 (-69.6713, -27.5195) -> (-58.3003, -20.9544) projected
  arc A57 (-60.9667, -11.0031) -> (-58.3003, -20.9544) centre (0, 0) ccw projected
  line L40 (-60.9667, -11.0031) -> (-74.0969, -11.0031) projected
  line L41 (-74.0969, -11.0031) -> (-74.0969, 11.0031) projected
  line L42 (-74.0969, 11.0031) -> (-60.9667, 11.0031) projected
  arc A58 (-58.3003, 20.9544) -> (-60.9667, 11.0031) centre (0, 0) ccw projected
  line L43 (-58.3003, 20.9544) -> (-69.6713, 27.5195) projected
  line L44 (-69.6713, 27.5195) -> (-58.6682, 46.5774) projected
  line L45 (-58.6682, 46.5774) -> (-47.2972, 40.0123) projected
  arc A59 (-40.0123, 47.2972) -> (-47.2972, 40.0123) centre (0, 0) ccw projected
  line L46 (-40.0123, 47.2972) -> (-46.5774, 58.6682) projected
  line L47 (-46.5774, 58.6682) -> (-27.5195, 69.6713) projected
  line L48 (-27.5195, 69.6713) -> (-20.9544, 58.3003) projected
  arc A60 (-11.0031, 60.9667) -> (-20.9544, 58.3003) centre (0, 0) ccw projected
  line L49 (-11.0031, 60.9667) -> (-11.0031, 74.0969) projected
  line L50 (-11.0031, 74.0969) -> (11.0031, 74.0969) projected
  line L51 (11.0031, 74.0969) -> (11.0031, 60.9667) projected
  arc A61 (20.9544, 58.3003) -> (11.0031, 60.9667) centre (0, 0) ccw projected
  line L52 (20.9544, 58.3003) -> (27.5195, 69.6713) projected
  line L53 (27.5195, 69.6713) -> (46.5774, 58.6682) projected
  line L54 (46.5774, 58.6682) -> (40.0123, 47.2972) projected
  arc A62 (47.2972, 40.0123) -> (40.0123, 47.2972) centre (0, 0) ccw projected
  line L55 (47.2972, 40.0123) -> (58.6682, 46.5774) projected
  line L56 (58.6682, 46.5774) -> (69.6713, 27.5195) projected
  line L57 (69.6713, 27.5195) -> (58.3003, 20.9544) projected
  arc A63 (60.9667, 11.0031) -> (58.3003, 20.9544) centre (0, 0) ccw projected
extrude "Extrusion13" add sketch "Sketch10" along normal blind 10
fillet "Fillet2" radius 2 12 edges at (20.75, -140, 51.9615) (42.7115, -140, 30) (50.75, -140, 0) (42.7115, -140, -30) (20.75, -140, -51.9615) (-9.25, -140, -60) (-39.25, -140, -51.9615) (-9.25, -140, 60) (-39.25, -140, 51.9615) (-61.2115, -140, 30) (-69.25, -140, 0) (-61.2115, -140, -30)
sketch "Sketch11" plane through (0, 0, 0) normal (0, -1, 0) x (1, 0, 0)
  circle A0 centre (0, 0) radius 5 projected
  circle A1 centre (0, 0) radius 112.976
extrude "Extrusion14" cut sketch "Sketch11" along normal up to surface (150 mm away) contours A0 | A1
sketch "Sketch12" plane through (0, 0, 0) normal (0, -1, 0) x (1, 0, 0)
  circle A0 centre (0, 0) radius 5 projected
  circle A1 centre (0, 0) radius 106.9123
extrude "Extrusion15" [suppressed]
ref_plane "Work Plane2" through (0, 0, 45) normal (0, 0, 1) x (1, 0, 0)
sketch "Sketch13" plane through (0, 0, 45) normal (0, 0, 1) x (1, 0, 0)
  line L0 (-3.558, -4.097) -> (4.442, -4.097)
  line L1 (4.442, -4.097) -> (4.442, -26.105)
  line L2 (4.442, -26.105) -> (-3.558, -26.105)
  line L3 (-3.558, -26.105) -> (-3.558, -4.097)
  line L4 (45, 0) -> (-45, 0) projected
  point P0 (0, 0)
  dimension "d114" = 8
  dimension "d115" = 3.558
  dimension "d116" = 4.097
  dimension "d117" = 22.008
ref_plane "Work Plane3" through (-45, 0, 0) normal (1, 0, 0) x (0, 1, 0)
properties part number "12 Test Tube Rack"
